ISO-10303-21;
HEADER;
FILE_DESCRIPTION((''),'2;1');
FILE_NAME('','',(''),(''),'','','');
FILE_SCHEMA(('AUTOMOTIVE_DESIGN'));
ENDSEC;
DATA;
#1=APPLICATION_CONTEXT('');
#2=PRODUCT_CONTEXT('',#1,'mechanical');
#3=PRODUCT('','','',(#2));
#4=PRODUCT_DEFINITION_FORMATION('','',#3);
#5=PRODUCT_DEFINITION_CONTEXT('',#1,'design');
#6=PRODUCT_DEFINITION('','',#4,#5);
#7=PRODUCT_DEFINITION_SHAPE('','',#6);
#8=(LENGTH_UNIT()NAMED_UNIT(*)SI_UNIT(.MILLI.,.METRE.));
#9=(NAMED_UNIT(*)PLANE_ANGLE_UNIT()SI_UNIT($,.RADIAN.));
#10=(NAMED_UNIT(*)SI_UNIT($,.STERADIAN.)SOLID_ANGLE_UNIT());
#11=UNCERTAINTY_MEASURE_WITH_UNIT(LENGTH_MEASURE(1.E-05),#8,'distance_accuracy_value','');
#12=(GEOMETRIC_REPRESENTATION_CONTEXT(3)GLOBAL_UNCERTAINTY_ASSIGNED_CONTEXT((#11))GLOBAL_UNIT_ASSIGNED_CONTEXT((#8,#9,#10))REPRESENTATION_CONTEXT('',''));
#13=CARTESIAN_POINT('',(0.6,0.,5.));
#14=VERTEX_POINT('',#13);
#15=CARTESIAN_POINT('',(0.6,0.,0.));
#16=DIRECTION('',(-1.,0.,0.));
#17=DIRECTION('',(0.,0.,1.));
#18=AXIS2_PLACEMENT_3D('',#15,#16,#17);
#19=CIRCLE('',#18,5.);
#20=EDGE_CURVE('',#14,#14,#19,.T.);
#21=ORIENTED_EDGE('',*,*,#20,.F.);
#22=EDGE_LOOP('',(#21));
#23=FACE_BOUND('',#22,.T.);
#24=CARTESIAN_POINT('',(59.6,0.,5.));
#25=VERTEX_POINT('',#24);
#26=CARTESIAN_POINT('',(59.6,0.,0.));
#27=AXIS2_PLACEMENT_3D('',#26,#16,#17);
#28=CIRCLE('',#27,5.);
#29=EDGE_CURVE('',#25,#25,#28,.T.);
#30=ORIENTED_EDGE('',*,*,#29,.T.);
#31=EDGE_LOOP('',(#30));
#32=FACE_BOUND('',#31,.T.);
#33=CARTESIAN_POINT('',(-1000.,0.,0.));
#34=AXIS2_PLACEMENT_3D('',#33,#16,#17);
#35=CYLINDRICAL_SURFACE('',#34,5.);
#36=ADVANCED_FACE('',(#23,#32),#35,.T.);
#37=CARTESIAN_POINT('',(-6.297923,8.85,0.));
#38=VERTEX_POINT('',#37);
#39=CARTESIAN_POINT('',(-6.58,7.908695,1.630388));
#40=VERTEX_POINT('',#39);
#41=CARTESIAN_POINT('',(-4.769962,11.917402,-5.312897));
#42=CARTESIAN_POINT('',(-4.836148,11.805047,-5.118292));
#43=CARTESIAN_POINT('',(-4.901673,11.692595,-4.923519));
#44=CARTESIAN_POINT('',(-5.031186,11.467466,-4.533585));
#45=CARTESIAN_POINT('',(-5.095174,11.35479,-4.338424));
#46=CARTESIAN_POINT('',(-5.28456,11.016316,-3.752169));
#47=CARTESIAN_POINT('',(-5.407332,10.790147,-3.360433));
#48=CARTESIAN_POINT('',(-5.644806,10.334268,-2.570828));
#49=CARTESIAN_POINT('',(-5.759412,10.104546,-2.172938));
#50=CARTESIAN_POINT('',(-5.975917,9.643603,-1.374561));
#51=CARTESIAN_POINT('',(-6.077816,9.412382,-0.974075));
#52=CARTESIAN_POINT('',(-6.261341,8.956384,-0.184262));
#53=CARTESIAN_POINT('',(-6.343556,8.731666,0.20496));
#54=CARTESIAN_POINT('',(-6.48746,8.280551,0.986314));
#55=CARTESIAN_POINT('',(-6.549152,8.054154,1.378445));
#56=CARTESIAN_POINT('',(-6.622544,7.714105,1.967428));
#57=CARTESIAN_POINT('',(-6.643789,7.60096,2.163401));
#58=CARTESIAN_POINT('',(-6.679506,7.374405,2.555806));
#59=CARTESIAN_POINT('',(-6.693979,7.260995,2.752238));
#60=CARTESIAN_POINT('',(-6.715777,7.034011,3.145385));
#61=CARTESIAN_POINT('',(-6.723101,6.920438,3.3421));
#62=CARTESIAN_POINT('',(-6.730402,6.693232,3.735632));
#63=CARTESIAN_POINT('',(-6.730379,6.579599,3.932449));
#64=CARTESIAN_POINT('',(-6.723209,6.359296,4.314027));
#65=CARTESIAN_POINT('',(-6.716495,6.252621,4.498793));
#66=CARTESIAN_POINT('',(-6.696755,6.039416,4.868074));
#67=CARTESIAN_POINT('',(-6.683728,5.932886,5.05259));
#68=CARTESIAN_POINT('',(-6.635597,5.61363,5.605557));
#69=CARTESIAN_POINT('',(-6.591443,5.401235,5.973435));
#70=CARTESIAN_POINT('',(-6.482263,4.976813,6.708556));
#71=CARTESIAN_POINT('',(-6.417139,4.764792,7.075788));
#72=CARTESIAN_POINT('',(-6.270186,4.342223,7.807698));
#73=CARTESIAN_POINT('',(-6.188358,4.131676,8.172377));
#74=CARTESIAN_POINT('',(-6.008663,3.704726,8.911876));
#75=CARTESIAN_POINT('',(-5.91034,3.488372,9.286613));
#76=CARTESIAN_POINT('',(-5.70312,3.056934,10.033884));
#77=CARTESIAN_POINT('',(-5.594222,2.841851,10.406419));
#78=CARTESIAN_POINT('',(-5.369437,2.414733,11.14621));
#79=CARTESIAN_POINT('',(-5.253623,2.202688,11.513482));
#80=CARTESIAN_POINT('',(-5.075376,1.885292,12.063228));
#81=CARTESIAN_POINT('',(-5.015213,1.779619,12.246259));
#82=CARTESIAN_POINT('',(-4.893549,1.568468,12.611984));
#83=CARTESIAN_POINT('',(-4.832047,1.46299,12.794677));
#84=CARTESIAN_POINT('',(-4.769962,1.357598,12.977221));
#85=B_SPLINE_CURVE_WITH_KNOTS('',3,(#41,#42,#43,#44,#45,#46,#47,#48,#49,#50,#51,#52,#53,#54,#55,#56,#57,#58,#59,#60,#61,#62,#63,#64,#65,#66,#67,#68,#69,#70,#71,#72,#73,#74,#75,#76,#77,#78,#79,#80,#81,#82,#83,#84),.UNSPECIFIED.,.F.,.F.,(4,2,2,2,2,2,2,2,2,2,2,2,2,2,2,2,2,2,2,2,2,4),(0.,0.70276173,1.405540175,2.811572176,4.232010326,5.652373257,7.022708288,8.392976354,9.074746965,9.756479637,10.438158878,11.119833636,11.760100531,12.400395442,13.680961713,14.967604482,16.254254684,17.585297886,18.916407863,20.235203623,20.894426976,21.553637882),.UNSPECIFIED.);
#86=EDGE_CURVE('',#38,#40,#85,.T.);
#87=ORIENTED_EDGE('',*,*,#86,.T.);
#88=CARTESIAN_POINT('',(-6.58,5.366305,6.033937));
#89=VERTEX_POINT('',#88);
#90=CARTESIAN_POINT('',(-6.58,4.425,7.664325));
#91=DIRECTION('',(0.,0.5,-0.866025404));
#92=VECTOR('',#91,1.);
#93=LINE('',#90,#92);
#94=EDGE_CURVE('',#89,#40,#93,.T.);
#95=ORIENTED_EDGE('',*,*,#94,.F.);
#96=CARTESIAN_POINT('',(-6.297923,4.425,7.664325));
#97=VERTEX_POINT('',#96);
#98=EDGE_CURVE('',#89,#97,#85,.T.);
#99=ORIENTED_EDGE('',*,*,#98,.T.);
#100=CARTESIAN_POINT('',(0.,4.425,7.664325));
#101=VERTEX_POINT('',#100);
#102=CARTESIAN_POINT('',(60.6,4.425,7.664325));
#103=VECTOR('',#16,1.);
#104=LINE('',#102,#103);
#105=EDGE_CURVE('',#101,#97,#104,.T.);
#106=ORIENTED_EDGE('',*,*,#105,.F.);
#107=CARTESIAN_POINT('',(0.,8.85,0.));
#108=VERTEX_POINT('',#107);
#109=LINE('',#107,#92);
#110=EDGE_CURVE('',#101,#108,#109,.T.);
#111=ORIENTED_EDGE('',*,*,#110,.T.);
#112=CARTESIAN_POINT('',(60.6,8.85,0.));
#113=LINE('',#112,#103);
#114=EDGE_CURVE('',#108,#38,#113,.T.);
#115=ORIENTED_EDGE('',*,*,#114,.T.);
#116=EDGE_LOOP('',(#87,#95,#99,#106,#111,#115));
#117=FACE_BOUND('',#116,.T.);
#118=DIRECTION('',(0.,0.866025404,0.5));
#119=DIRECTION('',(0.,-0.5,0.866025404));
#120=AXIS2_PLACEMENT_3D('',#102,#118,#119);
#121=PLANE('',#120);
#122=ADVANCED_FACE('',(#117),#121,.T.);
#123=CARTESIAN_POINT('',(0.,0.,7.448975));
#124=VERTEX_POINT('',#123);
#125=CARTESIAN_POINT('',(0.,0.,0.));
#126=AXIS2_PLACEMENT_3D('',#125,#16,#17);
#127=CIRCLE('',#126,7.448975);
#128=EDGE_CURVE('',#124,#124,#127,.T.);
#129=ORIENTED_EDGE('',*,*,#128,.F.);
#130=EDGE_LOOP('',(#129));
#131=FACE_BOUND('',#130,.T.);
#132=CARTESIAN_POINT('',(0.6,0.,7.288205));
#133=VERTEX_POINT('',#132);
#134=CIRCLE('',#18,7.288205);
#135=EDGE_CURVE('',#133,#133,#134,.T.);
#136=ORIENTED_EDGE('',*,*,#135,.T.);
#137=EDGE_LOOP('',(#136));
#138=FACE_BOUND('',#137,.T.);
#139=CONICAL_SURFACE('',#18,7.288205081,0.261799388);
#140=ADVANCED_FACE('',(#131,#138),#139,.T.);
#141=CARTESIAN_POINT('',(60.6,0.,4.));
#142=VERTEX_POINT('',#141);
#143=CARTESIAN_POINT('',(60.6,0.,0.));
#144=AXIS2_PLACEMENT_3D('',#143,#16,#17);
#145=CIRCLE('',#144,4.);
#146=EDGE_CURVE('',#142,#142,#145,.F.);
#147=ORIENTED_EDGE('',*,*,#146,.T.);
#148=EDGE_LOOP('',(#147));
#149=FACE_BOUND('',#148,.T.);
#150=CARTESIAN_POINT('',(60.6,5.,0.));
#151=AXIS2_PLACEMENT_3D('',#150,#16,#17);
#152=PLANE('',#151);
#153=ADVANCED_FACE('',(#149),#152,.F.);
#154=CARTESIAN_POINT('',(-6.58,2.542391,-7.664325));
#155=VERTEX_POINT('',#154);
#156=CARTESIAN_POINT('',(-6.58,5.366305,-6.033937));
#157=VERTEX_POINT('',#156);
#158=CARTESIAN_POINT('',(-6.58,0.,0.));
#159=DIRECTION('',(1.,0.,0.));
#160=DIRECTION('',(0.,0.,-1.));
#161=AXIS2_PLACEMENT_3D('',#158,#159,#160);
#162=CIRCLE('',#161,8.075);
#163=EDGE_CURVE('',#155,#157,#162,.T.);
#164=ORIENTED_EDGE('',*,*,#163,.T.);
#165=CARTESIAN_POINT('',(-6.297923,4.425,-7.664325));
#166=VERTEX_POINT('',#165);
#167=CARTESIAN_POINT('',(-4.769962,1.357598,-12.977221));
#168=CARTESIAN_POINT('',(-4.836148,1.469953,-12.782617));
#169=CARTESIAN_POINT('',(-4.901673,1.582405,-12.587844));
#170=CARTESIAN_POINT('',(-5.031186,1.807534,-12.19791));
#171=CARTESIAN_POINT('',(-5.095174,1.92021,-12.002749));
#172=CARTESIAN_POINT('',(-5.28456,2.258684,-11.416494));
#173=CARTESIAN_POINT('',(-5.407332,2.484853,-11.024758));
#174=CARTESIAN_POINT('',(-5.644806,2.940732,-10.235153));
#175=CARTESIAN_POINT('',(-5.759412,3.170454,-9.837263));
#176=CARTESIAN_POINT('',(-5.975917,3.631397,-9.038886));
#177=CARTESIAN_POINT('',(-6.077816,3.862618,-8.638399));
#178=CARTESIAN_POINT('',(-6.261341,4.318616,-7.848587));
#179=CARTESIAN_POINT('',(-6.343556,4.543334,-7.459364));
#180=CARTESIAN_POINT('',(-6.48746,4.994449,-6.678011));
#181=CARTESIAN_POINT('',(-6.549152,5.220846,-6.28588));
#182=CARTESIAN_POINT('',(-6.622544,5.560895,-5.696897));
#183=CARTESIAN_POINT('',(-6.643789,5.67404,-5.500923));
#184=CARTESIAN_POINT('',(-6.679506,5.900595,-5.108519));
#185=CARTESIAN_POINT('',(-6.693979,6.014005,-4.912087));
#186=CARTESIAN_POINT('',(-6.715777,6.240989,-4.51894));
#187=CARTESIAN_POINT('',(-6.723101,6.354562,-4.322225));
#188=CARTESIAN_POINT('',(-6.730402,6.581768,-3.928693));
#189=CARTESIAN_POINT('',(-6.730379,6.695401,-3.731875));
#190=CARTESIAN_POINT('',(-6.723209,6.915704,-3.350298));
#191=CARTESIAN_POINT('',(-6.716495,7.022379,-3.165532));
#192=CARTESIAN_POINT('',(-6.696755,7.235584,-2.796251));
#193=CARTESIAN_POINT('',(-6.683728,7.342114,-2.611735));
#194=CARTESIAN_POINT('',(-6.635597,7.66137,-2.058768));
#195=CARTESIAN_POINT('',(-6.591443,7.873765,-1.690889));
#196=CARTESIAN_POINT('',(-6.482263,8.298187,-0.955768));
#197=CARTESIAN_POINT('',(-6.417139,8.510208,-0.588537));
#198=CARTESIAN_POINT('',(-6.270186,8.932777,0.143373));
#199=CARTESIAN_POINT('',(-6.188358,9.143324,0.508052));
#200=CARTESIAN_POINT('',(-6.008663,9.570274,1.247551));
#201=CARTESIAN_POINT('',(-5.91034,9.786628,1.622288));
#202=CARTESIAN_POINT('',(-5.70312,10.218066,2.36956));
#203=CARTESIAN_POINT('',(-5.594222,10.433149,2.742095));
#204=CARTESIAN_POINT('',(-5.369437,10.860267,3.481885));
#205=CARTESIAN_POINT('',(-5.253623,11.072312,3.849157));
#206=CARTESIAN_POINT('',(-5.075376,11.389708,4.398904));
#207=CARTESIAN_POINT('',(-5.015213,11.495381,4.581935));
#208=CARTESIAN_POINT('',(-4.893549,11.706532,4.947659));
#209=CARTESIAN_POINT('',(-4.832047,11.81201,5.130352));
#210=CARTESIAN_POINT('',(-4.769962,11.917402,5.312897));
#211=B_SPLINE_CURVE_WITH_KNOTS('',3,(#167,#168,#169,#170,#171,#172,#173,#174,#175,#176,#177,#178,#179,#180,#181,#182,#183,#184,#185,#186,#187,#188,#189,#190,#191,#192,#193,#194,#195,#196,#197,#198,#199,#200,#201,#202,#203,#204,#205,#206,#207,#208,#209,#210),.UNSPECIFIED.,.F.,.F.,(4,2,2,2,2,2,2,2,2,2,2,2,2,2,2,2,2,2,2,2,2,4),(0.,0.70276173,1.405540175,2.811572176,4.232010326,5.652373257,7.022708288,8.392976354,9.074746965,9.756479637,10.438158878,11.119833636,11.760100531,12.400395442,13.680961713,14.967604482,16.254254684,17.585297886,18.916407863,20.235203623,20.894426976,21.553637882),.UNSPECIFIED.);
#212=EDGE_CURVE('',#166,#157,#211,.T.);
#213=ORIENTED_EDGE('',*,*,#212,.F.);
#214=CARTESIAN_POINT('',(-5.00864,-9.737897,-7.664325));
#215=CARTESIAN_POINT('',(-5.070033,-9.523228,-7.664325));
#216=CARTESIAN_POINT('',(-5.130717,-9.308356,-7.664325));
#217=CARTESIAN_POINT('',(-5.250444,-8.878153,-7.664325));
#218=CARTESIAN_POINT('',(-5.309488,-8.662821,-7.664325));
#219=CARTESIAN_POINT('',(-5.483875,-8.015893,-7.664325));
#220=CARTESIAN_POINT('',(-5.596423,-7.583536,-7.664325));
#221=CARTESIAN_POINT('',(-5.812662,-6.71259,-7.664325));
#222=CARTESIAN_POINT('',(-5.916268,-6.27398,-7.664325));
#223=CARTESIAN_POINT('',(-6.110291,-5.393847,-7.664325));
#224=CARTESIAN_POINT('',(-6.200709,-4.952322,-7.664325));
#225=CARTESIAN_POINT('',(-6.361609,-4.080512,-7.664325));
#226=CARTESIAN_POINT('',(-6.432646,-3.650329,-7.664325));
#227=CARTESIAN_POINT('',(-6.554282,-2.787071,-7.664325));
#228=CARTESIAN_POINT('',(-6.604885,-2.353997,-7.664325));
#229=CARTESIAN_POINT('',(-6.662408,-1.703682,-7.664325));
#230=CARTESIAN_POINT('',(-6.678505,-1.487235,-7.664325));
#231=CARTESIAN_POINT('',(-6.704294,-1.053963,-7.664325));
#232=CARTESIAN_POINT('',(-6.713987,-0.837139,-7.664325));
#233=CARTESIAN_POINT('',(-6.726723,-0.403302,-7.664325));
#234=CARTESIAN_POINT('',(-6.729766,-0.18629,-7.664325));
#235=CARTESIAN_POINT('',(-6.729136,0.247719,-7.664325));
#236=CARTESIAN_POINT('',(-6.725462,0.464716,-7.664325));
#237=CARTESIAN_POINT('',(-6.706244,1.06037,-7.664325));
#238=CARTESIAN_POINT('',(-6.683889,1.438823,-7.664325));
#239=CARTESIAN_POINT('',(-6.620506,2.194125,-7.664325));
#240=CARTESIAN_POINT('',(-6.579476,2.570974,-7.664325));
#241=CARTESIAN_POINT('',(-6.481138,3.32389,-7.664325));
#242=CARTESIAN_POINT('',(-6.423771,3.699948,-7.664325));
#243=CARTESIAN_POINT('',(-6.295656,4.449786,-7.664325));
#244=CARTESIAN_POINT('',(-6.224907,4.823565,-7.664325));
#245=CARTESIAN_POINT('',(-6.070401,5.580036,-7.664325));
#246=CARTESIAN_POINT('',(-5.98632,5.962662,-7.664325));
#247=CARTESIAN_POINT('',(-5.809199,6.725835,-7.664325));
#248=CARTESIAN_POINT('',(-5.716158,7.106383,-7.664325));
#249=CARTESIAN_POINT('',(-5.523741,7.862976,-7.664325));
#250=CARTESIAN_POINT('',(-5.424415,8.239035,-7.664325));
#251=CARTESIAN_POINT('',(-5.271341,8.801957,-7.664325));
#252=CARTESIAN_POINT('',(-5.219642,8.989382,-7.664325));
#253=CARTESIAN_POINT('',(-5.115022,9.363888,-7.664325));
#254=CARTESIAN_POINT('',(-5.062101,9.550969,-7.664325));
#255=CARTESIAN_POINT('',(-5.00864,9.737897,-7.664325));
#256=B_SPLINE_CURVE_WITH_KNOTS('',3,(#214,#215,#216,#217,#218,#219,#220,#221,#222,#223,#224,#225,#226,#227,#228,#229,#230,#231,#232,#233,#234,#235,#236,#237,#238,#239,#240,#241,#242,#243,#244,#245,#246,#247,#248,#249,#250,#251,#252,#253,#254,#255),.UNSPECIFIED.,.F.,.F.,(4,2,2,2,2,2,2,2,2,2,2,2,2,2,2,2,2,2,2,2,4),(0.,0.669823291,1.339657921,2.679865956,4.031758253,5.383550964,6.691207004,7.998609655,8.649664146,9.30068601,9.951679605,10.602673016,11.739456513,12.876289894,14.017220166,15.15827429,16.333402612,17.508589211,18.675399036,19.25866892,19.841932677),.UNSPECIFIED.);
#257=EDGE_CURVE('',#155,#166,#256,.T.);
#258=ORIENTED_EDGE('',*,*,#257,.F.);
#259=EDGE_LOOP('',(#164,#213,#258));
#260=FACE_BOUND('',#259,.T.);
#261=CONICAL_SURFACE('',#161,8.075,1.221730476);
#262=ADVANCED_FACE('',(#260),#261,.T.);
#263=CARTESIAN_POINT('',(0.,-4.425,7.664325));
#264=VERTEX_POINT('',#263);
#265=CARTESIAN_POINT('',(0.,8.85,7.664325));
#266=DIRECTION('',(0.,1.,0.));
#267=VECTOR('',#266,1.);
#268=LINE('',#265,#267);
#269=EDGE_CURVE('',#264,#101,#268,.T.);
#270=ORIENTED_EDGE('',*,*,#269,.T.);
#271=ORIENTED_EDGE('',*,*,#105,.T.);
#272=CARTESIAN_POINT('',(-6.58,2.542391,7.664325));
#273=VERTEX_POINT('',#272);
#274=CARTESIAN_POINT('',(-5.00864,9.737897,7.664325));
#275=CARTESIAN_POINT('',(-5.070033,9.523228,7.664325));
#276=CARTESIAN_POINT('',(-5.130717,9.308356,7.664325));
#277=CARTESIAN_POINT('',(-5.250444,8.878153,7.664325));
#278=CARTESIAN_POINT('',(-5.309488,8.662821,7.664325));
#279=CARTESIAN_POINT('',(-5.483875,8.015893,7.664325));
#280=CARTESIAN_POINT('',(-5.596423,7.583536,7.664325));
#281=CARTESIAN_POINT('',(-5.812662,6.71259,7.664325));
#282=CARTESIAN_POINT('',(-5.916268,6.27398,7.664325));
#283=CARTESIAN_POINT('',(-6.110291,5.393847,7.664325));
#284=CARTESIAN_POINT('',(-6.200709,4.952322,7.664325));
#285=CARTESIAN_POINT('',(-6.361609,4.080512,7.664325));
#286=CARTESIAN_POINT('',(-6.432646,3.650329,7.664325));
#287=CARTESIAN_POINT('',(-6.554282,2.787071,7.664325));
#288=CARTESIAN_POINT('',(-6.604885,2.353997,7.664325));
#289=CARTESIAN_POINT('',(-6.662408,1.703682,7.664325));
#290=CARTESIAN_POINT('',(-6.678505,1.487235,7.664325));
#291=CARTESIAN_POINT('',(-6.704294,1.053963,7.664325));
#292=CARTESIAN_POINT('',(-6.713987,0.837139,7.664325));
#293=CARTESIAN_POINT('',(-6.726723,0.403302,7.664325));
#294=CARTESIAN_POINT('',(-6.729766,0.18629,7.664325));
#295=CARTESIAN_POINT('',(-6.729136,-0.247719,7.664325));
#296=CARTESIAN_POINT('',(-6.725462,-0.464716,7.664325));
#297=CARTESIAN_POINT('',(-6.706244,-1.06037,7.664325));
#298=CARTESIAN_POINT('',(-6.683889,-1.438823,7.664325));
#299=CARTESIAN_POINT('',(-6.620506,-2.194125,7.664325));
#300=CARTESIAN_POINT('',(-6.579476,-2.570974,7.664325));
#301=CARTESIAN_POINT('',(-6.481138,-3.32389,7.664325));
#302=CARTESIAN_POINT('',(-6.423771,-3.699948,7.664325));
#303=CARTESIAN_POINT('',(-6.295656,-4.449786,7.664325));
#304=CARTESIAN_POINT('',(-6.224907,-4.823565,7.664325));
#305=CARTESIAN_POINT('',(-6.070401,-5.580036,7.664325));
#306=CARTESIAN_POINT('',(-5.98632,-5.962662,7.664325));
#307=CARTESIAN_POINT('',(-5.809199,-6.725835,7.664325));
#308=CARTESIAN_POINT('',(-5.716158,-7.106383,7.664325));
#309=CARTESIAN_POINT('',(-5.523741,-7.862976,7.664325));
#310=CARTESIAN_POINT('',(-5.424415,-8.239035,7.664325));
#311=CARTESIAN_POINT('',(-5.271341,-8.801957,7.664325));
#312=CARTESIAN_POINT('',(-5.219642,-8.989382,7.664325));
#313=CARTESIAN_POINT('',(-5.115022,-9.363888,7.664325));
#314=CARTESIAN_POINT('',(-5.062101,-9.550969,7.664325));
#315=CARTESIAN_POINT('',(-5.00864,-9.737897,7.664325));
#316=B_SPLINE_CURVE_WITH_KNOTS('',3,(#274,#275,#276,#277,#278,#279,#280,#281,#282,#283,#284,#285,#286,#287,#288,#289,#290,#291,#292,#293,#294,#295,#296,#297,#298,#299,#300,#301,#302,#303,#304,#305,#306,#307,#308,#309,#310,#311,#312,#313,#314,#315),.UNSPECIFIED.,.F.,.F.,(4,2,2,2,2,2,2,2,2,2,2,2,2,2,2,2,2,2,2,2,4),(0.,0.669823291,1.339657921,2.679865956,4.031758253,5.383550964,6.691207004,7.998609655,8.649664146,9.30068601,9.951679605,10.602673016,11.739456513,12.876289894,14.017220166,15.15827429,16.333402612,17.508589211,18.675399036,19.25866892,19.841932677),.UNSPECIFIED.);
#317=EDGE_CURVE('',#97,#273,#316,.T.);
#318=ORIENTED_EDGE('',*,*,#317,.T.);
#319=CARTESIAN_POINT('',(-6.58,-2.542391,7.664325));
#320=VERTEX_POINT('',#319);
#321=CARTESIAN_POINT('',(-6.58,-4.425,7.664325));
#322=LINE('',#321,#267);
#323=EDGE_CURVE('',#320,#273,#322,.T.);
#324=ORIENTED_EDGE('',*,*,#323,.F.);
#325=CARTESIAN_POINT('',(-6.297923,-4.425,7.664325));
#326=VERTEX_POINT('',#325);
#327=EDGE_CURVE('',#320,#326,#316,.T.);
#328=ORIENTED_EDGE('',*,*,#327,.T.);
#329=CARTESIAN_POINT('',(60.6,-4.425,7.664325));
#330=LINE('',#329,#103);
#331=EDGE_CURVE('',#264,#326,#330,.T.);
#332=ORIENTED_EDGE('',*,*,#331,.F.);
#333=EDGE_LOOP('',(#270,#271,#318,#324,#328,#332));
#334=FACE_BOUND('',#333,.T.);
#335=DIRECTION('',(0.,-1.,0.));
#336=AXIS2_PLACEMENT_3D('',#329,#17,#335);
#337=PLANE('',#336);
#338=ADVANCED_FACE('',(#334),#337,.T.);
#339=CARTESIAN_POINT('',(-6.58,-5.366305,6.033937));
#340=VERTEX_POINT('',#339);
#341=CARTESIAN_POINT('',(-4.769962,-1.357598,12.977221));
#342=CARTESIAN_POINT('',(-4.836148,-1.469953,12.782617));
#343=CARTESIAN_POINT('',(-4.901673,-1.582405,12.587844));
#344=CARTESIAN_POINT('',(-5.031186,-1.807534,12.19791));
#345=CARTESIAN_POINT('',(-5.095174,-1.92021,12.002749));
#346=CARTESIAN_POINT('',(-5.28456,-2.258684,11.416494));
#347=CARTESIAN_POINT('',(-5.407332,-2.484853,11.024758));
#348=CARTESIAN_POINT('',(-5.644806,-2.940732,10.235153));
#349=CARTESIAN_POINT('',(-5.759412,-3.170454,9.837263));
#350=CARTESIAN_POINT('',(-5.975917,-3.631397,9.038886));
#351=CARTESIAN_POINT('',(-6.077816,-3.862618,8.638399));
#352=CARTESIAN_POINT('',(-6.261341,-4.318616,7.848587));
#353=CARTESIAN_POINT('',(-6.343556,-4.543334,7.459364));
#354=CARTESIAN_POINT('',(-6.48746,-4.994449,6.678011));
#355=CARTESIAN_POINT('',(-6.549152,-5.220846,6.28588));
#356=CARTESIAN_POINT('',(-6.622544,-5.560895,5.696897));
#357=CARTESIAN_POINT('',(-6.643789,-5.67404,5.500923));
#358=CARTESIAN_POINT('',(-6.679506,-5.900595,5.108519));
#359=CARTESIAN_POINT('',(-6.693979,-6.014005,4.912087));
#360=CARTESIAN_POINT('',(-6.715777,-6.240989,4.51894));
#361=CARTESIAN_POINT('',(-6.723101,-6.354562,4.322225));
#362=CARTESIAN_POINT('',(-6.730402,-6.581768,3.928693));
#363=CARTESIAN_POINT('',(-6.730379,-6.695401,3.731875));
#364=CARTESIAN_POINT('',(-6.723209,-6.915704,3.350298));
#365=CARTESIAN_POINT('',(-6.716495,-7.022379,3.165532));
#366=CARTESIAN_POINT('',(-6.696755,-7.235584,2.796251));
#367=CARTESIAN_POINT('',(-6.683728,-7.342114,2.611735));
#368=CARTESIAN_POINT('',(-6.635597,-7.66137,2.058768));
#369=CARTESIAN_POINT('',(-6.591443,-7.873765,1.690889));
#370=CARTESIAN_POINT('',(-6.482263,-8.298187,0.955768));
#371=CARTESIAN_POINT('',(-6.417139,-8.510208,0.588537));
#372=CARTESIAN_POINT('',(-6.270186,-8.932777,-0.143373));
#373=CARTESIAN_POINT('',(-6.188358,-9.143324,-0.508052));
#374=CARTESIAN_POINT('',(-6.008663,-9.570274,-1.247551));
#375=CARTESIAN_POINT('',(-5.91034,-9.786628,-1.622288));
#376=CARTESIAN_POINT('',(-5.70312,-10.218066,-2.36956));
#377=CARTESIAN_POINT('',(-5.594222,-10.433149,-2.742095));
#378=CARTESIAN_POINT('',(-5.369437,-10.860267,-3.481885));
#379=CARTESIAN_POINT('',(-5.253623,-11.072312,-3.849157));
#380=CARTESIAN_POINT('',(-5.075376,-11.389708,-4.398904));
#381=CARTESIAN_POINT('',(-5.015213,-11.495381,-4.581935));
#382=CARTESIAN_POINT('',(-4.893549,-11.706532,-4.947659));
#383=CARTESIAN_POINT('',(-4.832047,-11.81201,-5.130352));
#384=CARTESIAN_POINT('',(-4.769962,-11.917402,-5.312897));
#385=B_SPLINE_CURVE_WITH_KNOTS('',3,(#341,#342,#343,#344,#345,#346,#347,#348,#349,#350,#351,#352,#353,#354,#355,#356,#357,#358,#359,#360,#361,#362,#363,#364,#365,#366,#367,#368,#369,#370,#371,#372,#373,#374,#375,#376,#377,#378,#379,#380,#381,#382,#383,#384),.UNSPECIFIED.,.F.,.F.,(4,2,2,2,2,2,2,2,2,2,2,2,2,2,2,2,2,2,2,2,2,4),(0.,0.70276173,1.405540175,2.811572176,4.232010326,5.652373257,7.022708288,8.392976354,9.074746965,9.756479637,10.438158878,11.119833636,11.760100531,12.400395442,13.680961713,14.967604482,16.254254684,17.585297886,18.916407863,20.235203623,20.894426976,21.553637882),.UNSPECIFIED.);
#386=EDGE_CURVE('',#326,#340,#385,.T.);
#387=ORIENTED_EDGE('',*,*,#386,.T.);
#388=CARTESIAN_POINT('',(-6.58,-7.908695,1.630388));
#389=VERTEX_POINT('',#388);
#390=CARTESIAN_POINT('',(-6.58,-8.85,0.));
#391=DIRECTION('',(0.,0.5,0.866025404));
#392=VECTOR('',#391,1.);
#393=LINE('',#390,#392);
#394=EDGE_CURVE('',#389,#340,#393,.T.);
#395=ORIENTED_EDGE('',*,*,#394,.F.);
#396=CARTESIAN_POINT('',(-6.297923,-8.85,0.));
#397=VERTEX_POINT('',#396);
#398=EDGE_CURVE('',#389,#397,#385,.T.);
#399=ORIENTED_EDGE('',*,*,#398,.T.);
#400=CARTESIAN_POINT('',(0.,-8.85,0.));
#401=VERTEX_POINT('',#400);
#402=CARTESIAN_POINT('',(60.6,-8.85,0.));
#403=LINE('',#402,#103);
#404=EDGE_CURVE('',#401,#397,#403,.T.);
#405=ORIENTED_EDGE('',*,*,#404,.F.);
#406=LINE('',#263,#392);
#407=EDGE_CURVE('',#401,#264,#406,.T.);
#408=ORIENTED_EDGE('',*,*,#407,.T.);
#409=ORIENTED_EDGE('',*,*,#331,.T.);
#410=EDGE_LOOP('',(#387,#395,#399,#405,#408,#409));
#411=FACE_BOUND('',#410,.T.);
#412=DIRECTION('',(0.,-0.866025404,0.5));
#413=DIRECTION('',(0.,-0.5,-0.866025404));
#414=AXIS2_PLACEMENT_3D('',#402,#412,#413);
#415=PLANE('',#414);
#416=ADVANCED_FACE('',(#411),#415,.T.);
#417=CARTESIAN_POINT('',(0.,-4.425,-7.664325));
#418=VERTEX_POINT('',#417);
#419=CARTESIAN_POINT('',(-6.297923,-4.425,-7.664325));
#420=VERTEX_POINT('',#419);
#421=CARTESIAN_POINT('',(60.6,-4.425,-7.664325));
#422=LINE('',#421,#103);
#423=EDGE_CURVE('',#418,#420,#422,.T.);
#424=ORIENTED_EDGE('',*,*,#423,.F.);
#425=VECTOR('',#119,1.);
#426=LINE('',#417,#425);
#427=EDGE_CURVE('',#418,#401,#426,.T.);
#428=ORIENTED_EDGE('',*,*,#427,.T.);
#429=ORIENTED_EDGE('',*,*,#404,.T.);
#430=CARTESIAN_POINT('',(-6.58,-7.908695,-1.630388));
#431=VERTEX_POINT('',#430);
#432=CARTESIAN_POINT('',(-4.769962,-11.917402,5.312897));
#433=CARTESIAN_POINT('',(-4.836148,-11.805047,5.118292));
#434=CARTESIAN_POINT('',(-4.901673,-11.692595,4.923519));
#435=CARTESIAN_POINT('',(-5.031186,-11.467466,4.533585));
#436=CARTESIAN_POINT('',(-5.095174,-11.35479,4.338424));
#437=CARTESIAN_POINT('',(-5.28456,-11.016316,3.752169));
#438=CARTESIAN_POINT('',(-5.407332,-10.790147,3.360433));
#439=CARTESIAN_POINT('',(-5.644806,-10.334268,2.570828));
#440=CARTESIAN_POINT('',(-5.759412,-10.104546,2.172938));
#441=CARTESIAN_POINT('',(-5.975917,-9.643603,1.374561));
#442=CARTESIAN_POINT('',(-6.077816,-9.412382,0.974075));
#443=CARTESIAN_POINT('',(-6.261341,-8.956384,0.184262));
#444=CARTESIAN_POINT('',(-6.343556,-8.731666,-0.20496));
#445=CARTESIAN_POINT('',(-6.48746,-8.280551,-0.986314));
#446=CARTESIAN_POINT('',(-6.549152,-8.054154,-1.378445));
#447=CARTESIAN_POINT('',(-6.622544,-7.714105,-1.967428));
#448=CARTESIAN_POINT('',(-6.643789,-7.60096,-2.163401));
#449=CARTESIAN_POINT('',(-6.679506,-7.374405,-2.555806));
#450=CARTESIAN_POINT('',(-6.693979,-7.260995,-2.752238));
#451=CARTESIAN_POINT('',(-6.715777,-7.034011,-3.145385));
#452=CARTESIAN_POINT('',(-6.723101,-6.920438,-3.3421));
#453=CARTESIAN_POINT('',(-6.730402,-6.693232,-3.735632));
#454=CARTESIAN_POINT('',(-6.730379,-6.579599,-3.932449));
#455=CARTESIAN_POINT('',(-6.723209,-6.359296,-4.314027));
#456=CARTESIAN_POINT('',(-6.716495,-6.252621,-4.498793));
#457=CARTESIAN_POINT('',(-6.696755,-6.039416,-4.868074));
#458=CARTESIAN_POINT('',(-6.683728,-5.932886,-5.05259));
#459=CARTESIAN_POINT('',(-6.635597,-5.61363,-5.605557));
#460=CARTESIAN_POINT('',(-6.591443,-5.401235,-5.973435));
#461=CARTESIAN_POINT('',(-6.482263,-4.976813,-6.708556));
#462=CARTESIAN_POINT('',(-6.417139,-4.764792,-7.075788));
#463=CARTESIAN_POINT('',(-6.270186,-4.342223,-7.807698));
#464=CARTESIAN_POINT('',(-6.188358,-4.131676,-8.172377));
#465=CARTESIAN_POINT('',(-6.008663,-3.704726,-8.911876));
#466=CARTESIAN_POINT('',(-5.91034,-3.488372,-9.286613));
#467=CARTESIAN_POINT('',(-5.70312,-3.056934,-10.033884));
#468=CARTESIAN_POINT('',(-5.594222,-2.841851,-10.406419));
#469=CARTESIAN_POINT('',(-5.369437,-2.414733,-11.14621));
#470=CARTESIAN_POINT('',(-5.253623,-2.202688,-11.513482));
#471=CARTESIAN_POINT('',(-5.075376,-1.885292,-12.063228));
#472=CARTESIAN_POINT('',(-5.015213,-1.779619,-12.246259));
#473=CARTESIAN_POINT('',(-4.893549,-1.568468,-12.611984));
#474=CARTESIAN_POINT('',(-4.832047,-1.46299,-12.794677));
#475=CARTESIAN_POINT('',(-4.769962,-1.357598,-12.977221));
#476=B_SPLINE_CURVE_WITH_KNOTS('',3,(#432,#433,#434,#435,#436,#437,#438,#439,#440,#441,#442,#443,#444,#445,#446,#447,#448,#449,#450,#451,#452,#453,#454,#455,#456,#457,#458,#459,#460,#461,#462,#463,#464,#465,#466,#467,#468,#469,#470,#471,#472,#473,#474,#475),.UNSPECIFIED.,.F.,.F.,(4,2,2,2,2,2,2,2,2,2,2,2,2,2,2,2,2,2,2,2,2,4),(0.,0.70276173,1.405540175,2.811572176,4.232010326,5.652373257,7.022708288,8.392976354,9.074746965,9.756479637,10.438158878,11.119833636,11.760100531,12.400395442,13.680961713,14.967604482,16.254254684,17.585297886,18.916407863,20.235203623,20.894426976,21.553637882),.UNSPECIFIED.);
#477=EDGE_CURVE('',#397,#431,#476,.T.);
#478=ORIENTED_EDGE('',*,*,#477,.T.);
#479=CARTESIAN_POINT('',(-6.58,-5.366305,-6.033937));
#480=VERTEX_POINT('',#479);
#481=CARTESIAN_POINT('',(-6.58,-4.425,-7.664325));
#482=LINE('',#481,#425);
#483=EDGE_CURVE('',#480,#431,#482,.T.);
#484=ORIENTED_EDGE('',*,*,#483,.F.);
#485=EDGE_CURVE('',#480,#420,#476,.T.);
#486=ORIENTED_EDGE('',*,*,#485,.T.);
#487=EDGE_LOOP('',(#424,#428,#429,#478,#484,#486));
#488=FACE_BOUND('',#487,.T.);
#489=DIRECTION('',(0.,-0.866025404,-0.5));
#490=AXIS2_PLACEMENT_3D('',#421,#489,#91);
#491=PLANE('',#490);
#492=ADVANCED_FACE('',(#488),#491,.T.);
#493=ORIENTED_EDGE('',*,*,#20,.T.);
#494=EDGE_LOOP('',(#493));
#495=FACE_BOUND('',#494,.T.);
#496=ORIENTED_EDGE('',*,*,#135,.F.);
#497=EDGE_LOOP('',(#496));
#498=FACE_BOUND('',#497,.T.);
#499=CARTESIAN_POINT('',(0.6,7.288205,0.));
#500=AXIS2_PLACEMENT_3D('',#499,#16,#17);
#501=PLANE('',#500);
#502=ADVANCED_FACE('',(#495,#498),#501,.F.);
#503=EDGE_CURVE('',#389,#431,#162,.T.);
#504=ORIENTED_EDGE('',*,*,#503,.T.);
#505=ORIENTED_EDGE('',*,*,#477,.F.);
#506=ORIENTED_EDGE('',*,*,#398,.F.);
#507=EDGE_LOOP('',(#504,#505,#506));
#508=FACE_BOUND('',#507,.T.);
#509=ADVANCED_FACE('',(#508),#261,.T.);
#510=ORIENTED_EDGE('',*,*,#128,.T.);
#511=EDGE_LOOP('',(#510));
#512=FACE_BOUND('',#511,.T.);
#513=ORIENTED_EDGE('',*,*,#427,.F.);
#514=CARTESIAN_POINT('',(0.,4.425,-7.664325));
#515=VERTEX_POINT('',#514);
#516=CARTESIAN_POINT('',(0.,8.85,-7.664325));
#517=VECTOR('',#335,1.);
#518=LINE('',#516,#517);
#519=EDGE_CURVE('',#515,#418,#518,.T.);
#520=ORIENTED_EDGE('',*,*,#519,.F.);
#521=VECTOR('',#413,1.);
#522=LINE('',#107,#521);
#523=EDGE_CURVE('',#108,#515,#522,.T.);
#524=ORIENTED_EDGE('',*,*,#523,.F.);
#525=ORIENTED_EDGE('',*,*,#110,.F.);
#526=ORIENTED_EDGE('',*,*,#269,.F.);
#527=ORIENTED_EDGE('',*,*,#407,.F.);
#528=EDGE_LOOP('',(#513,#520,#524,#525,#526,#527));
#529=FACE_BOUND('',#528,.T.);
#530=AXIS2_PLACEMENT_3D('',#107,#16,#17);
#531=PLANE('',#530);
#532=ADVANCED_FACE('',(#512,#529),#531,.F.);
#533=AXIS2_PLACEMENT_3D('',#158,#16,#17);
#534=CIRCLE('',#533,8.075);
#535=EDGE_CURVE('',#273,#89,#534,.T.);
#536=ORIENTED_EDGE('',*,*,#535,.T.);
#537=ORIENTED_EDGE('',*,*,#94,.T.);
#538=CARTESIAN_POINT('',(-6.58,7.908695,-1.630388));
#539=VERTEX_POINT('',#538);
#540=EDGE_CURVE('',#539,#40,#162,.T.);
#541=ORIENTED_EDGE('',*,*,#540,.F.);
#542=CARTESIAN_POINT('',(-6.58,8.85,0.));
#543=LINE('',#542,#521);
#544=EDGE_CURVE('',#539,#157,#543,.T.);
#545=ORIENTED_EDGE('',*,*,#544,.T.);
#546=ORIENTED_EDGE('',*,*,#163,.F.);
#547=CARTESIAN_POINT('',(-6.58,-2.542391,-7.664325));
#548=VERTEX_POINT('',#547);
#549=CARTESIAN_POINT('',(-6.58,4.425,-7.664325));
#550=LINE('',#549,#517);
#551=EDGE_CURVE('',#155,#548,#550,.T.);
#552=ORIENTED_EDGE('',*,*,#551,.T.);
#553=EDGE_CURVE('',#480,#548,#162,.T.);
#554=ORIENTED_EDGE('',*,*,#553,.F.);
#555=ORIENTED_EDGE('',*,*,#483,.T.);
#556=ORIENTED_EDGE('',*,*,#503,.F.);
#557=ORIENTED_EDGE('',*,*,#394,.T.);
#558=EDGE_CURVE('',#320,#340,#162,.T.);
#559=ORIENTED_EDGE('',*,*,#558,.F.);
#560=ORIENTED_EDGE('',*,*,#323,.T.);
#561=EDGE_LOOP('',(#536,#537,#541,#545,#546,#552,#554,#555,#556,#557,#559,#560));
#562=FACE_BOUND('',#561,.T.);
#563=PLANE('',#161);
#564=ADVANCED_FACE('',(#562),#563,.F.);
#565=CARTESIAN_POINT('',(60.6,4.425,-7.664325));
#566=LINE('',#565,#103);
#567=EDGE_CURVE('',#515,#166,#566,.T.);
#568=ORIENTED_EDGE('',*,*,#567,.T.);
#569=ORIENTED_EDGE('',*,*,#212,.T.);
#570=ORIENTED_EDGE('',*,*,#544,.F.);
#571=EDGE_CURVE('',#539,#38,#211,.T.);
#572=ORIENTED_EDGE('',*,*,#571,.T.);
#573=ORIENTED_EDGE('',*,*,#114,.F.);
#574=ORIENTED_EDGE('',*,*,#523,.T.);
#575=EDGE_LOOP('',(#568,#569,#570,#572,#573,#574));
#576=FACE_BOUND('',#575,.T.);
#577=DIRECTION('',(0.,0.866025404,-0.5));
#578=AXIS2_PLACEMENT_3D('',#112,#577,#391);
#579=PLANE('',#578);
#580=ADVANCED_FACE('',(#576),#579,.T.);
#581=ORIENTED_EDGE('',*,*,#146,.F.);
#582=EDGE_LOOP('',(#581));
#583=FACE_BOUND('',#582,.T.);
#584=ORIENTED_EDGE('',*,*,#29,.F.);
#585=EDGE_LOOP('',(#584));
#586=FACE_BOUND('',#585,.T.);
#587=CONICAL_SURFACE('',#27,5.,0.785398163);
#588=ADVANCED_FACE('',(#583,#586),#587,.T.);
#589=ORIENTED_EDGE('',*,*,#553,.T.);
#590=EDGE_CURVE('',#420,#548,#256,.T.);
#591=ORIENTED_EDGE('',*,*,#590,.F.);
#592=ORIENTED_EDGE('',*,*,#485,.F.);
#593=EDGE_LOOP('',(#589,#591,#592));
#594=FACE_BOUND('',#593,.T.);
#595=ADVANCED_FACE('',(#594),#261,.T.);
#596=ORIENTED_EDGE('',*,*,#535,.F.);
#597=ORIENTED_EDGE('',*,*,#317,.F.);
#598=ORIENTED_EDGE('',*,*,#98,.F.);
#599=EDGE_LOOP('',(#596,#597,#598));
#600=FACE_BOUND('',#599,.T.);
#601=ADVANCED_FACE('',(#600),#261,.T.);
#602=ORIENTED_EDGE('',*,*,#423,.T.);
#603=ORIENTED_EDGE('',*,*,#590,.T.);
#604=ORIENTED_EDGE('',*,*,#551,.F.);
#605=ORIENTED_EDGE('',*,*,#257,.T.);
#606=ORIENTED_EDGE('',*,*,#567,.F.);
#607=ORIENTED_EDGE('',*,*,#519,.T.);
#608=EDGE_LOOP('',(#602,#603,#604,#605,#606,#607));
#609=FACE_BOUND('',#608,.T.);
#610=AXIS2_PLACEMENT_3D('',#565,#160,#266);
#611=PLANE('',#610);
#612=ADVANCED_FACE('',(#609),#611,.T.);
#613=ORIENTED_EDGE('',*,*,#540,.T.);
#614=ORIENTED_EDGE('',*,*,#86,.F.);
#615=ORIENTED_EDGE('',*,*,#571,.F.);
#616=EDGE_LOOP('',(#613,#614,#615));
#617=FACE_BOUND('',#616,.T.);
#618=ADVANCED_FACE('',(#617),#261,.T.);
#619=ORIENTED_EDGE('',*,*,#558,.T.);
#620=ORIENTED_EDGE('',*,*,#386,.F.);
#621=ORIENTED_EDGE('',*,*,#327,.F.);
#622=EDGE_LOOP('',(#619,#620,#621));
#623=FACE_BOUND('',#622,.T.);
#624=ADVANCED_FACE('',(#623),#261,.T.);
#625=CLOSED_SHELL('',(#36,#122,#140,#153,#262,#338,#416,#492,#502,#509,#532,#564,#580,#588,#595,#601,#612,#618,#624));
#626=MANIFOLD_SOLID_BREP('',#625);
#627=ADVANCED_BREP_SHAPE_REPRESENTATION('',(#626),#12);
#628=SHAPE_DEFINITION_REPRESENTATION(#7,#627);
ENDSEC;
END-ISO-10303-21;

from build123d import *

# Parameters (mm, degrees)
SKETCH_2_OUTSIDE_W  = 34.038
SKETCH_2_OUTSIDE_H  = 34.038
CUT_EXTRUDE_1_DEPTH = 69.335915886
CHAMFER_1_SIZE      = 1


with BuildPart() as part:
    # Эскиз1 → Повернуть1 (revolve)
    with BuildSketch(Plane.XY, mode=Mode.PRIVATE) as revolve_1_sk:
        Polygon((-6.58, 0), (-6.58, 8.85), (0, 8.85), (0, 7.448974596), (0.6, 7.288205081), (0.6, 5), (60.6, 5), (60.6, 0), align=None)
    revolve(revolve_1_sk.sketch.rotate(Axis((-1000, 0, 0), (1, 0, 0)), 90), axis=Axis((-1000, 0, 0), (1, 0, 0)))

    # Эскиз2 outside → Вырез-Вытянуть1 (cut, through all)
    with BuildSketch(Plane.ZY.offset(6.58)):
        Rectangle(SKETCH_2_OUTSIDE_W, SKETCH_2_OUTSIDE_H)
        Polygon((0, -8.85), (7.664324823, -4.425), (7.664324823, 4.425), (0, 8.85), (-7.664324823, 4.425), (-7.664324823, -4.425), align=None, mode=Mode.SUBTRACT)
    extrude(amount=-CUT_EXTRUDE_1_DEPTH, mode=Mode.SUBTRACT)

    # Эскиз4 → Вырез-Повернуть1 (revolve, cut)
    with BuildSketch(Plane.XY):
        Polygon((-6.58, 8.075), (-6.297923068, 8.85), (-6.58, 8.85), align=None)
    revolve(axis=Axis((-1000, 0, 0), (1, 0, 0)), mode=Mode.SUBTRACT)

    # Фаска1
    chamfer_1_edges = [part.edges().sort_by_distance(p)[0] for p in [
        (60.6, 0, -5),
    ]]
    chamfer(chamfer_1_edges, length=CHAMFER_1_SIZE)


solid = part.part
